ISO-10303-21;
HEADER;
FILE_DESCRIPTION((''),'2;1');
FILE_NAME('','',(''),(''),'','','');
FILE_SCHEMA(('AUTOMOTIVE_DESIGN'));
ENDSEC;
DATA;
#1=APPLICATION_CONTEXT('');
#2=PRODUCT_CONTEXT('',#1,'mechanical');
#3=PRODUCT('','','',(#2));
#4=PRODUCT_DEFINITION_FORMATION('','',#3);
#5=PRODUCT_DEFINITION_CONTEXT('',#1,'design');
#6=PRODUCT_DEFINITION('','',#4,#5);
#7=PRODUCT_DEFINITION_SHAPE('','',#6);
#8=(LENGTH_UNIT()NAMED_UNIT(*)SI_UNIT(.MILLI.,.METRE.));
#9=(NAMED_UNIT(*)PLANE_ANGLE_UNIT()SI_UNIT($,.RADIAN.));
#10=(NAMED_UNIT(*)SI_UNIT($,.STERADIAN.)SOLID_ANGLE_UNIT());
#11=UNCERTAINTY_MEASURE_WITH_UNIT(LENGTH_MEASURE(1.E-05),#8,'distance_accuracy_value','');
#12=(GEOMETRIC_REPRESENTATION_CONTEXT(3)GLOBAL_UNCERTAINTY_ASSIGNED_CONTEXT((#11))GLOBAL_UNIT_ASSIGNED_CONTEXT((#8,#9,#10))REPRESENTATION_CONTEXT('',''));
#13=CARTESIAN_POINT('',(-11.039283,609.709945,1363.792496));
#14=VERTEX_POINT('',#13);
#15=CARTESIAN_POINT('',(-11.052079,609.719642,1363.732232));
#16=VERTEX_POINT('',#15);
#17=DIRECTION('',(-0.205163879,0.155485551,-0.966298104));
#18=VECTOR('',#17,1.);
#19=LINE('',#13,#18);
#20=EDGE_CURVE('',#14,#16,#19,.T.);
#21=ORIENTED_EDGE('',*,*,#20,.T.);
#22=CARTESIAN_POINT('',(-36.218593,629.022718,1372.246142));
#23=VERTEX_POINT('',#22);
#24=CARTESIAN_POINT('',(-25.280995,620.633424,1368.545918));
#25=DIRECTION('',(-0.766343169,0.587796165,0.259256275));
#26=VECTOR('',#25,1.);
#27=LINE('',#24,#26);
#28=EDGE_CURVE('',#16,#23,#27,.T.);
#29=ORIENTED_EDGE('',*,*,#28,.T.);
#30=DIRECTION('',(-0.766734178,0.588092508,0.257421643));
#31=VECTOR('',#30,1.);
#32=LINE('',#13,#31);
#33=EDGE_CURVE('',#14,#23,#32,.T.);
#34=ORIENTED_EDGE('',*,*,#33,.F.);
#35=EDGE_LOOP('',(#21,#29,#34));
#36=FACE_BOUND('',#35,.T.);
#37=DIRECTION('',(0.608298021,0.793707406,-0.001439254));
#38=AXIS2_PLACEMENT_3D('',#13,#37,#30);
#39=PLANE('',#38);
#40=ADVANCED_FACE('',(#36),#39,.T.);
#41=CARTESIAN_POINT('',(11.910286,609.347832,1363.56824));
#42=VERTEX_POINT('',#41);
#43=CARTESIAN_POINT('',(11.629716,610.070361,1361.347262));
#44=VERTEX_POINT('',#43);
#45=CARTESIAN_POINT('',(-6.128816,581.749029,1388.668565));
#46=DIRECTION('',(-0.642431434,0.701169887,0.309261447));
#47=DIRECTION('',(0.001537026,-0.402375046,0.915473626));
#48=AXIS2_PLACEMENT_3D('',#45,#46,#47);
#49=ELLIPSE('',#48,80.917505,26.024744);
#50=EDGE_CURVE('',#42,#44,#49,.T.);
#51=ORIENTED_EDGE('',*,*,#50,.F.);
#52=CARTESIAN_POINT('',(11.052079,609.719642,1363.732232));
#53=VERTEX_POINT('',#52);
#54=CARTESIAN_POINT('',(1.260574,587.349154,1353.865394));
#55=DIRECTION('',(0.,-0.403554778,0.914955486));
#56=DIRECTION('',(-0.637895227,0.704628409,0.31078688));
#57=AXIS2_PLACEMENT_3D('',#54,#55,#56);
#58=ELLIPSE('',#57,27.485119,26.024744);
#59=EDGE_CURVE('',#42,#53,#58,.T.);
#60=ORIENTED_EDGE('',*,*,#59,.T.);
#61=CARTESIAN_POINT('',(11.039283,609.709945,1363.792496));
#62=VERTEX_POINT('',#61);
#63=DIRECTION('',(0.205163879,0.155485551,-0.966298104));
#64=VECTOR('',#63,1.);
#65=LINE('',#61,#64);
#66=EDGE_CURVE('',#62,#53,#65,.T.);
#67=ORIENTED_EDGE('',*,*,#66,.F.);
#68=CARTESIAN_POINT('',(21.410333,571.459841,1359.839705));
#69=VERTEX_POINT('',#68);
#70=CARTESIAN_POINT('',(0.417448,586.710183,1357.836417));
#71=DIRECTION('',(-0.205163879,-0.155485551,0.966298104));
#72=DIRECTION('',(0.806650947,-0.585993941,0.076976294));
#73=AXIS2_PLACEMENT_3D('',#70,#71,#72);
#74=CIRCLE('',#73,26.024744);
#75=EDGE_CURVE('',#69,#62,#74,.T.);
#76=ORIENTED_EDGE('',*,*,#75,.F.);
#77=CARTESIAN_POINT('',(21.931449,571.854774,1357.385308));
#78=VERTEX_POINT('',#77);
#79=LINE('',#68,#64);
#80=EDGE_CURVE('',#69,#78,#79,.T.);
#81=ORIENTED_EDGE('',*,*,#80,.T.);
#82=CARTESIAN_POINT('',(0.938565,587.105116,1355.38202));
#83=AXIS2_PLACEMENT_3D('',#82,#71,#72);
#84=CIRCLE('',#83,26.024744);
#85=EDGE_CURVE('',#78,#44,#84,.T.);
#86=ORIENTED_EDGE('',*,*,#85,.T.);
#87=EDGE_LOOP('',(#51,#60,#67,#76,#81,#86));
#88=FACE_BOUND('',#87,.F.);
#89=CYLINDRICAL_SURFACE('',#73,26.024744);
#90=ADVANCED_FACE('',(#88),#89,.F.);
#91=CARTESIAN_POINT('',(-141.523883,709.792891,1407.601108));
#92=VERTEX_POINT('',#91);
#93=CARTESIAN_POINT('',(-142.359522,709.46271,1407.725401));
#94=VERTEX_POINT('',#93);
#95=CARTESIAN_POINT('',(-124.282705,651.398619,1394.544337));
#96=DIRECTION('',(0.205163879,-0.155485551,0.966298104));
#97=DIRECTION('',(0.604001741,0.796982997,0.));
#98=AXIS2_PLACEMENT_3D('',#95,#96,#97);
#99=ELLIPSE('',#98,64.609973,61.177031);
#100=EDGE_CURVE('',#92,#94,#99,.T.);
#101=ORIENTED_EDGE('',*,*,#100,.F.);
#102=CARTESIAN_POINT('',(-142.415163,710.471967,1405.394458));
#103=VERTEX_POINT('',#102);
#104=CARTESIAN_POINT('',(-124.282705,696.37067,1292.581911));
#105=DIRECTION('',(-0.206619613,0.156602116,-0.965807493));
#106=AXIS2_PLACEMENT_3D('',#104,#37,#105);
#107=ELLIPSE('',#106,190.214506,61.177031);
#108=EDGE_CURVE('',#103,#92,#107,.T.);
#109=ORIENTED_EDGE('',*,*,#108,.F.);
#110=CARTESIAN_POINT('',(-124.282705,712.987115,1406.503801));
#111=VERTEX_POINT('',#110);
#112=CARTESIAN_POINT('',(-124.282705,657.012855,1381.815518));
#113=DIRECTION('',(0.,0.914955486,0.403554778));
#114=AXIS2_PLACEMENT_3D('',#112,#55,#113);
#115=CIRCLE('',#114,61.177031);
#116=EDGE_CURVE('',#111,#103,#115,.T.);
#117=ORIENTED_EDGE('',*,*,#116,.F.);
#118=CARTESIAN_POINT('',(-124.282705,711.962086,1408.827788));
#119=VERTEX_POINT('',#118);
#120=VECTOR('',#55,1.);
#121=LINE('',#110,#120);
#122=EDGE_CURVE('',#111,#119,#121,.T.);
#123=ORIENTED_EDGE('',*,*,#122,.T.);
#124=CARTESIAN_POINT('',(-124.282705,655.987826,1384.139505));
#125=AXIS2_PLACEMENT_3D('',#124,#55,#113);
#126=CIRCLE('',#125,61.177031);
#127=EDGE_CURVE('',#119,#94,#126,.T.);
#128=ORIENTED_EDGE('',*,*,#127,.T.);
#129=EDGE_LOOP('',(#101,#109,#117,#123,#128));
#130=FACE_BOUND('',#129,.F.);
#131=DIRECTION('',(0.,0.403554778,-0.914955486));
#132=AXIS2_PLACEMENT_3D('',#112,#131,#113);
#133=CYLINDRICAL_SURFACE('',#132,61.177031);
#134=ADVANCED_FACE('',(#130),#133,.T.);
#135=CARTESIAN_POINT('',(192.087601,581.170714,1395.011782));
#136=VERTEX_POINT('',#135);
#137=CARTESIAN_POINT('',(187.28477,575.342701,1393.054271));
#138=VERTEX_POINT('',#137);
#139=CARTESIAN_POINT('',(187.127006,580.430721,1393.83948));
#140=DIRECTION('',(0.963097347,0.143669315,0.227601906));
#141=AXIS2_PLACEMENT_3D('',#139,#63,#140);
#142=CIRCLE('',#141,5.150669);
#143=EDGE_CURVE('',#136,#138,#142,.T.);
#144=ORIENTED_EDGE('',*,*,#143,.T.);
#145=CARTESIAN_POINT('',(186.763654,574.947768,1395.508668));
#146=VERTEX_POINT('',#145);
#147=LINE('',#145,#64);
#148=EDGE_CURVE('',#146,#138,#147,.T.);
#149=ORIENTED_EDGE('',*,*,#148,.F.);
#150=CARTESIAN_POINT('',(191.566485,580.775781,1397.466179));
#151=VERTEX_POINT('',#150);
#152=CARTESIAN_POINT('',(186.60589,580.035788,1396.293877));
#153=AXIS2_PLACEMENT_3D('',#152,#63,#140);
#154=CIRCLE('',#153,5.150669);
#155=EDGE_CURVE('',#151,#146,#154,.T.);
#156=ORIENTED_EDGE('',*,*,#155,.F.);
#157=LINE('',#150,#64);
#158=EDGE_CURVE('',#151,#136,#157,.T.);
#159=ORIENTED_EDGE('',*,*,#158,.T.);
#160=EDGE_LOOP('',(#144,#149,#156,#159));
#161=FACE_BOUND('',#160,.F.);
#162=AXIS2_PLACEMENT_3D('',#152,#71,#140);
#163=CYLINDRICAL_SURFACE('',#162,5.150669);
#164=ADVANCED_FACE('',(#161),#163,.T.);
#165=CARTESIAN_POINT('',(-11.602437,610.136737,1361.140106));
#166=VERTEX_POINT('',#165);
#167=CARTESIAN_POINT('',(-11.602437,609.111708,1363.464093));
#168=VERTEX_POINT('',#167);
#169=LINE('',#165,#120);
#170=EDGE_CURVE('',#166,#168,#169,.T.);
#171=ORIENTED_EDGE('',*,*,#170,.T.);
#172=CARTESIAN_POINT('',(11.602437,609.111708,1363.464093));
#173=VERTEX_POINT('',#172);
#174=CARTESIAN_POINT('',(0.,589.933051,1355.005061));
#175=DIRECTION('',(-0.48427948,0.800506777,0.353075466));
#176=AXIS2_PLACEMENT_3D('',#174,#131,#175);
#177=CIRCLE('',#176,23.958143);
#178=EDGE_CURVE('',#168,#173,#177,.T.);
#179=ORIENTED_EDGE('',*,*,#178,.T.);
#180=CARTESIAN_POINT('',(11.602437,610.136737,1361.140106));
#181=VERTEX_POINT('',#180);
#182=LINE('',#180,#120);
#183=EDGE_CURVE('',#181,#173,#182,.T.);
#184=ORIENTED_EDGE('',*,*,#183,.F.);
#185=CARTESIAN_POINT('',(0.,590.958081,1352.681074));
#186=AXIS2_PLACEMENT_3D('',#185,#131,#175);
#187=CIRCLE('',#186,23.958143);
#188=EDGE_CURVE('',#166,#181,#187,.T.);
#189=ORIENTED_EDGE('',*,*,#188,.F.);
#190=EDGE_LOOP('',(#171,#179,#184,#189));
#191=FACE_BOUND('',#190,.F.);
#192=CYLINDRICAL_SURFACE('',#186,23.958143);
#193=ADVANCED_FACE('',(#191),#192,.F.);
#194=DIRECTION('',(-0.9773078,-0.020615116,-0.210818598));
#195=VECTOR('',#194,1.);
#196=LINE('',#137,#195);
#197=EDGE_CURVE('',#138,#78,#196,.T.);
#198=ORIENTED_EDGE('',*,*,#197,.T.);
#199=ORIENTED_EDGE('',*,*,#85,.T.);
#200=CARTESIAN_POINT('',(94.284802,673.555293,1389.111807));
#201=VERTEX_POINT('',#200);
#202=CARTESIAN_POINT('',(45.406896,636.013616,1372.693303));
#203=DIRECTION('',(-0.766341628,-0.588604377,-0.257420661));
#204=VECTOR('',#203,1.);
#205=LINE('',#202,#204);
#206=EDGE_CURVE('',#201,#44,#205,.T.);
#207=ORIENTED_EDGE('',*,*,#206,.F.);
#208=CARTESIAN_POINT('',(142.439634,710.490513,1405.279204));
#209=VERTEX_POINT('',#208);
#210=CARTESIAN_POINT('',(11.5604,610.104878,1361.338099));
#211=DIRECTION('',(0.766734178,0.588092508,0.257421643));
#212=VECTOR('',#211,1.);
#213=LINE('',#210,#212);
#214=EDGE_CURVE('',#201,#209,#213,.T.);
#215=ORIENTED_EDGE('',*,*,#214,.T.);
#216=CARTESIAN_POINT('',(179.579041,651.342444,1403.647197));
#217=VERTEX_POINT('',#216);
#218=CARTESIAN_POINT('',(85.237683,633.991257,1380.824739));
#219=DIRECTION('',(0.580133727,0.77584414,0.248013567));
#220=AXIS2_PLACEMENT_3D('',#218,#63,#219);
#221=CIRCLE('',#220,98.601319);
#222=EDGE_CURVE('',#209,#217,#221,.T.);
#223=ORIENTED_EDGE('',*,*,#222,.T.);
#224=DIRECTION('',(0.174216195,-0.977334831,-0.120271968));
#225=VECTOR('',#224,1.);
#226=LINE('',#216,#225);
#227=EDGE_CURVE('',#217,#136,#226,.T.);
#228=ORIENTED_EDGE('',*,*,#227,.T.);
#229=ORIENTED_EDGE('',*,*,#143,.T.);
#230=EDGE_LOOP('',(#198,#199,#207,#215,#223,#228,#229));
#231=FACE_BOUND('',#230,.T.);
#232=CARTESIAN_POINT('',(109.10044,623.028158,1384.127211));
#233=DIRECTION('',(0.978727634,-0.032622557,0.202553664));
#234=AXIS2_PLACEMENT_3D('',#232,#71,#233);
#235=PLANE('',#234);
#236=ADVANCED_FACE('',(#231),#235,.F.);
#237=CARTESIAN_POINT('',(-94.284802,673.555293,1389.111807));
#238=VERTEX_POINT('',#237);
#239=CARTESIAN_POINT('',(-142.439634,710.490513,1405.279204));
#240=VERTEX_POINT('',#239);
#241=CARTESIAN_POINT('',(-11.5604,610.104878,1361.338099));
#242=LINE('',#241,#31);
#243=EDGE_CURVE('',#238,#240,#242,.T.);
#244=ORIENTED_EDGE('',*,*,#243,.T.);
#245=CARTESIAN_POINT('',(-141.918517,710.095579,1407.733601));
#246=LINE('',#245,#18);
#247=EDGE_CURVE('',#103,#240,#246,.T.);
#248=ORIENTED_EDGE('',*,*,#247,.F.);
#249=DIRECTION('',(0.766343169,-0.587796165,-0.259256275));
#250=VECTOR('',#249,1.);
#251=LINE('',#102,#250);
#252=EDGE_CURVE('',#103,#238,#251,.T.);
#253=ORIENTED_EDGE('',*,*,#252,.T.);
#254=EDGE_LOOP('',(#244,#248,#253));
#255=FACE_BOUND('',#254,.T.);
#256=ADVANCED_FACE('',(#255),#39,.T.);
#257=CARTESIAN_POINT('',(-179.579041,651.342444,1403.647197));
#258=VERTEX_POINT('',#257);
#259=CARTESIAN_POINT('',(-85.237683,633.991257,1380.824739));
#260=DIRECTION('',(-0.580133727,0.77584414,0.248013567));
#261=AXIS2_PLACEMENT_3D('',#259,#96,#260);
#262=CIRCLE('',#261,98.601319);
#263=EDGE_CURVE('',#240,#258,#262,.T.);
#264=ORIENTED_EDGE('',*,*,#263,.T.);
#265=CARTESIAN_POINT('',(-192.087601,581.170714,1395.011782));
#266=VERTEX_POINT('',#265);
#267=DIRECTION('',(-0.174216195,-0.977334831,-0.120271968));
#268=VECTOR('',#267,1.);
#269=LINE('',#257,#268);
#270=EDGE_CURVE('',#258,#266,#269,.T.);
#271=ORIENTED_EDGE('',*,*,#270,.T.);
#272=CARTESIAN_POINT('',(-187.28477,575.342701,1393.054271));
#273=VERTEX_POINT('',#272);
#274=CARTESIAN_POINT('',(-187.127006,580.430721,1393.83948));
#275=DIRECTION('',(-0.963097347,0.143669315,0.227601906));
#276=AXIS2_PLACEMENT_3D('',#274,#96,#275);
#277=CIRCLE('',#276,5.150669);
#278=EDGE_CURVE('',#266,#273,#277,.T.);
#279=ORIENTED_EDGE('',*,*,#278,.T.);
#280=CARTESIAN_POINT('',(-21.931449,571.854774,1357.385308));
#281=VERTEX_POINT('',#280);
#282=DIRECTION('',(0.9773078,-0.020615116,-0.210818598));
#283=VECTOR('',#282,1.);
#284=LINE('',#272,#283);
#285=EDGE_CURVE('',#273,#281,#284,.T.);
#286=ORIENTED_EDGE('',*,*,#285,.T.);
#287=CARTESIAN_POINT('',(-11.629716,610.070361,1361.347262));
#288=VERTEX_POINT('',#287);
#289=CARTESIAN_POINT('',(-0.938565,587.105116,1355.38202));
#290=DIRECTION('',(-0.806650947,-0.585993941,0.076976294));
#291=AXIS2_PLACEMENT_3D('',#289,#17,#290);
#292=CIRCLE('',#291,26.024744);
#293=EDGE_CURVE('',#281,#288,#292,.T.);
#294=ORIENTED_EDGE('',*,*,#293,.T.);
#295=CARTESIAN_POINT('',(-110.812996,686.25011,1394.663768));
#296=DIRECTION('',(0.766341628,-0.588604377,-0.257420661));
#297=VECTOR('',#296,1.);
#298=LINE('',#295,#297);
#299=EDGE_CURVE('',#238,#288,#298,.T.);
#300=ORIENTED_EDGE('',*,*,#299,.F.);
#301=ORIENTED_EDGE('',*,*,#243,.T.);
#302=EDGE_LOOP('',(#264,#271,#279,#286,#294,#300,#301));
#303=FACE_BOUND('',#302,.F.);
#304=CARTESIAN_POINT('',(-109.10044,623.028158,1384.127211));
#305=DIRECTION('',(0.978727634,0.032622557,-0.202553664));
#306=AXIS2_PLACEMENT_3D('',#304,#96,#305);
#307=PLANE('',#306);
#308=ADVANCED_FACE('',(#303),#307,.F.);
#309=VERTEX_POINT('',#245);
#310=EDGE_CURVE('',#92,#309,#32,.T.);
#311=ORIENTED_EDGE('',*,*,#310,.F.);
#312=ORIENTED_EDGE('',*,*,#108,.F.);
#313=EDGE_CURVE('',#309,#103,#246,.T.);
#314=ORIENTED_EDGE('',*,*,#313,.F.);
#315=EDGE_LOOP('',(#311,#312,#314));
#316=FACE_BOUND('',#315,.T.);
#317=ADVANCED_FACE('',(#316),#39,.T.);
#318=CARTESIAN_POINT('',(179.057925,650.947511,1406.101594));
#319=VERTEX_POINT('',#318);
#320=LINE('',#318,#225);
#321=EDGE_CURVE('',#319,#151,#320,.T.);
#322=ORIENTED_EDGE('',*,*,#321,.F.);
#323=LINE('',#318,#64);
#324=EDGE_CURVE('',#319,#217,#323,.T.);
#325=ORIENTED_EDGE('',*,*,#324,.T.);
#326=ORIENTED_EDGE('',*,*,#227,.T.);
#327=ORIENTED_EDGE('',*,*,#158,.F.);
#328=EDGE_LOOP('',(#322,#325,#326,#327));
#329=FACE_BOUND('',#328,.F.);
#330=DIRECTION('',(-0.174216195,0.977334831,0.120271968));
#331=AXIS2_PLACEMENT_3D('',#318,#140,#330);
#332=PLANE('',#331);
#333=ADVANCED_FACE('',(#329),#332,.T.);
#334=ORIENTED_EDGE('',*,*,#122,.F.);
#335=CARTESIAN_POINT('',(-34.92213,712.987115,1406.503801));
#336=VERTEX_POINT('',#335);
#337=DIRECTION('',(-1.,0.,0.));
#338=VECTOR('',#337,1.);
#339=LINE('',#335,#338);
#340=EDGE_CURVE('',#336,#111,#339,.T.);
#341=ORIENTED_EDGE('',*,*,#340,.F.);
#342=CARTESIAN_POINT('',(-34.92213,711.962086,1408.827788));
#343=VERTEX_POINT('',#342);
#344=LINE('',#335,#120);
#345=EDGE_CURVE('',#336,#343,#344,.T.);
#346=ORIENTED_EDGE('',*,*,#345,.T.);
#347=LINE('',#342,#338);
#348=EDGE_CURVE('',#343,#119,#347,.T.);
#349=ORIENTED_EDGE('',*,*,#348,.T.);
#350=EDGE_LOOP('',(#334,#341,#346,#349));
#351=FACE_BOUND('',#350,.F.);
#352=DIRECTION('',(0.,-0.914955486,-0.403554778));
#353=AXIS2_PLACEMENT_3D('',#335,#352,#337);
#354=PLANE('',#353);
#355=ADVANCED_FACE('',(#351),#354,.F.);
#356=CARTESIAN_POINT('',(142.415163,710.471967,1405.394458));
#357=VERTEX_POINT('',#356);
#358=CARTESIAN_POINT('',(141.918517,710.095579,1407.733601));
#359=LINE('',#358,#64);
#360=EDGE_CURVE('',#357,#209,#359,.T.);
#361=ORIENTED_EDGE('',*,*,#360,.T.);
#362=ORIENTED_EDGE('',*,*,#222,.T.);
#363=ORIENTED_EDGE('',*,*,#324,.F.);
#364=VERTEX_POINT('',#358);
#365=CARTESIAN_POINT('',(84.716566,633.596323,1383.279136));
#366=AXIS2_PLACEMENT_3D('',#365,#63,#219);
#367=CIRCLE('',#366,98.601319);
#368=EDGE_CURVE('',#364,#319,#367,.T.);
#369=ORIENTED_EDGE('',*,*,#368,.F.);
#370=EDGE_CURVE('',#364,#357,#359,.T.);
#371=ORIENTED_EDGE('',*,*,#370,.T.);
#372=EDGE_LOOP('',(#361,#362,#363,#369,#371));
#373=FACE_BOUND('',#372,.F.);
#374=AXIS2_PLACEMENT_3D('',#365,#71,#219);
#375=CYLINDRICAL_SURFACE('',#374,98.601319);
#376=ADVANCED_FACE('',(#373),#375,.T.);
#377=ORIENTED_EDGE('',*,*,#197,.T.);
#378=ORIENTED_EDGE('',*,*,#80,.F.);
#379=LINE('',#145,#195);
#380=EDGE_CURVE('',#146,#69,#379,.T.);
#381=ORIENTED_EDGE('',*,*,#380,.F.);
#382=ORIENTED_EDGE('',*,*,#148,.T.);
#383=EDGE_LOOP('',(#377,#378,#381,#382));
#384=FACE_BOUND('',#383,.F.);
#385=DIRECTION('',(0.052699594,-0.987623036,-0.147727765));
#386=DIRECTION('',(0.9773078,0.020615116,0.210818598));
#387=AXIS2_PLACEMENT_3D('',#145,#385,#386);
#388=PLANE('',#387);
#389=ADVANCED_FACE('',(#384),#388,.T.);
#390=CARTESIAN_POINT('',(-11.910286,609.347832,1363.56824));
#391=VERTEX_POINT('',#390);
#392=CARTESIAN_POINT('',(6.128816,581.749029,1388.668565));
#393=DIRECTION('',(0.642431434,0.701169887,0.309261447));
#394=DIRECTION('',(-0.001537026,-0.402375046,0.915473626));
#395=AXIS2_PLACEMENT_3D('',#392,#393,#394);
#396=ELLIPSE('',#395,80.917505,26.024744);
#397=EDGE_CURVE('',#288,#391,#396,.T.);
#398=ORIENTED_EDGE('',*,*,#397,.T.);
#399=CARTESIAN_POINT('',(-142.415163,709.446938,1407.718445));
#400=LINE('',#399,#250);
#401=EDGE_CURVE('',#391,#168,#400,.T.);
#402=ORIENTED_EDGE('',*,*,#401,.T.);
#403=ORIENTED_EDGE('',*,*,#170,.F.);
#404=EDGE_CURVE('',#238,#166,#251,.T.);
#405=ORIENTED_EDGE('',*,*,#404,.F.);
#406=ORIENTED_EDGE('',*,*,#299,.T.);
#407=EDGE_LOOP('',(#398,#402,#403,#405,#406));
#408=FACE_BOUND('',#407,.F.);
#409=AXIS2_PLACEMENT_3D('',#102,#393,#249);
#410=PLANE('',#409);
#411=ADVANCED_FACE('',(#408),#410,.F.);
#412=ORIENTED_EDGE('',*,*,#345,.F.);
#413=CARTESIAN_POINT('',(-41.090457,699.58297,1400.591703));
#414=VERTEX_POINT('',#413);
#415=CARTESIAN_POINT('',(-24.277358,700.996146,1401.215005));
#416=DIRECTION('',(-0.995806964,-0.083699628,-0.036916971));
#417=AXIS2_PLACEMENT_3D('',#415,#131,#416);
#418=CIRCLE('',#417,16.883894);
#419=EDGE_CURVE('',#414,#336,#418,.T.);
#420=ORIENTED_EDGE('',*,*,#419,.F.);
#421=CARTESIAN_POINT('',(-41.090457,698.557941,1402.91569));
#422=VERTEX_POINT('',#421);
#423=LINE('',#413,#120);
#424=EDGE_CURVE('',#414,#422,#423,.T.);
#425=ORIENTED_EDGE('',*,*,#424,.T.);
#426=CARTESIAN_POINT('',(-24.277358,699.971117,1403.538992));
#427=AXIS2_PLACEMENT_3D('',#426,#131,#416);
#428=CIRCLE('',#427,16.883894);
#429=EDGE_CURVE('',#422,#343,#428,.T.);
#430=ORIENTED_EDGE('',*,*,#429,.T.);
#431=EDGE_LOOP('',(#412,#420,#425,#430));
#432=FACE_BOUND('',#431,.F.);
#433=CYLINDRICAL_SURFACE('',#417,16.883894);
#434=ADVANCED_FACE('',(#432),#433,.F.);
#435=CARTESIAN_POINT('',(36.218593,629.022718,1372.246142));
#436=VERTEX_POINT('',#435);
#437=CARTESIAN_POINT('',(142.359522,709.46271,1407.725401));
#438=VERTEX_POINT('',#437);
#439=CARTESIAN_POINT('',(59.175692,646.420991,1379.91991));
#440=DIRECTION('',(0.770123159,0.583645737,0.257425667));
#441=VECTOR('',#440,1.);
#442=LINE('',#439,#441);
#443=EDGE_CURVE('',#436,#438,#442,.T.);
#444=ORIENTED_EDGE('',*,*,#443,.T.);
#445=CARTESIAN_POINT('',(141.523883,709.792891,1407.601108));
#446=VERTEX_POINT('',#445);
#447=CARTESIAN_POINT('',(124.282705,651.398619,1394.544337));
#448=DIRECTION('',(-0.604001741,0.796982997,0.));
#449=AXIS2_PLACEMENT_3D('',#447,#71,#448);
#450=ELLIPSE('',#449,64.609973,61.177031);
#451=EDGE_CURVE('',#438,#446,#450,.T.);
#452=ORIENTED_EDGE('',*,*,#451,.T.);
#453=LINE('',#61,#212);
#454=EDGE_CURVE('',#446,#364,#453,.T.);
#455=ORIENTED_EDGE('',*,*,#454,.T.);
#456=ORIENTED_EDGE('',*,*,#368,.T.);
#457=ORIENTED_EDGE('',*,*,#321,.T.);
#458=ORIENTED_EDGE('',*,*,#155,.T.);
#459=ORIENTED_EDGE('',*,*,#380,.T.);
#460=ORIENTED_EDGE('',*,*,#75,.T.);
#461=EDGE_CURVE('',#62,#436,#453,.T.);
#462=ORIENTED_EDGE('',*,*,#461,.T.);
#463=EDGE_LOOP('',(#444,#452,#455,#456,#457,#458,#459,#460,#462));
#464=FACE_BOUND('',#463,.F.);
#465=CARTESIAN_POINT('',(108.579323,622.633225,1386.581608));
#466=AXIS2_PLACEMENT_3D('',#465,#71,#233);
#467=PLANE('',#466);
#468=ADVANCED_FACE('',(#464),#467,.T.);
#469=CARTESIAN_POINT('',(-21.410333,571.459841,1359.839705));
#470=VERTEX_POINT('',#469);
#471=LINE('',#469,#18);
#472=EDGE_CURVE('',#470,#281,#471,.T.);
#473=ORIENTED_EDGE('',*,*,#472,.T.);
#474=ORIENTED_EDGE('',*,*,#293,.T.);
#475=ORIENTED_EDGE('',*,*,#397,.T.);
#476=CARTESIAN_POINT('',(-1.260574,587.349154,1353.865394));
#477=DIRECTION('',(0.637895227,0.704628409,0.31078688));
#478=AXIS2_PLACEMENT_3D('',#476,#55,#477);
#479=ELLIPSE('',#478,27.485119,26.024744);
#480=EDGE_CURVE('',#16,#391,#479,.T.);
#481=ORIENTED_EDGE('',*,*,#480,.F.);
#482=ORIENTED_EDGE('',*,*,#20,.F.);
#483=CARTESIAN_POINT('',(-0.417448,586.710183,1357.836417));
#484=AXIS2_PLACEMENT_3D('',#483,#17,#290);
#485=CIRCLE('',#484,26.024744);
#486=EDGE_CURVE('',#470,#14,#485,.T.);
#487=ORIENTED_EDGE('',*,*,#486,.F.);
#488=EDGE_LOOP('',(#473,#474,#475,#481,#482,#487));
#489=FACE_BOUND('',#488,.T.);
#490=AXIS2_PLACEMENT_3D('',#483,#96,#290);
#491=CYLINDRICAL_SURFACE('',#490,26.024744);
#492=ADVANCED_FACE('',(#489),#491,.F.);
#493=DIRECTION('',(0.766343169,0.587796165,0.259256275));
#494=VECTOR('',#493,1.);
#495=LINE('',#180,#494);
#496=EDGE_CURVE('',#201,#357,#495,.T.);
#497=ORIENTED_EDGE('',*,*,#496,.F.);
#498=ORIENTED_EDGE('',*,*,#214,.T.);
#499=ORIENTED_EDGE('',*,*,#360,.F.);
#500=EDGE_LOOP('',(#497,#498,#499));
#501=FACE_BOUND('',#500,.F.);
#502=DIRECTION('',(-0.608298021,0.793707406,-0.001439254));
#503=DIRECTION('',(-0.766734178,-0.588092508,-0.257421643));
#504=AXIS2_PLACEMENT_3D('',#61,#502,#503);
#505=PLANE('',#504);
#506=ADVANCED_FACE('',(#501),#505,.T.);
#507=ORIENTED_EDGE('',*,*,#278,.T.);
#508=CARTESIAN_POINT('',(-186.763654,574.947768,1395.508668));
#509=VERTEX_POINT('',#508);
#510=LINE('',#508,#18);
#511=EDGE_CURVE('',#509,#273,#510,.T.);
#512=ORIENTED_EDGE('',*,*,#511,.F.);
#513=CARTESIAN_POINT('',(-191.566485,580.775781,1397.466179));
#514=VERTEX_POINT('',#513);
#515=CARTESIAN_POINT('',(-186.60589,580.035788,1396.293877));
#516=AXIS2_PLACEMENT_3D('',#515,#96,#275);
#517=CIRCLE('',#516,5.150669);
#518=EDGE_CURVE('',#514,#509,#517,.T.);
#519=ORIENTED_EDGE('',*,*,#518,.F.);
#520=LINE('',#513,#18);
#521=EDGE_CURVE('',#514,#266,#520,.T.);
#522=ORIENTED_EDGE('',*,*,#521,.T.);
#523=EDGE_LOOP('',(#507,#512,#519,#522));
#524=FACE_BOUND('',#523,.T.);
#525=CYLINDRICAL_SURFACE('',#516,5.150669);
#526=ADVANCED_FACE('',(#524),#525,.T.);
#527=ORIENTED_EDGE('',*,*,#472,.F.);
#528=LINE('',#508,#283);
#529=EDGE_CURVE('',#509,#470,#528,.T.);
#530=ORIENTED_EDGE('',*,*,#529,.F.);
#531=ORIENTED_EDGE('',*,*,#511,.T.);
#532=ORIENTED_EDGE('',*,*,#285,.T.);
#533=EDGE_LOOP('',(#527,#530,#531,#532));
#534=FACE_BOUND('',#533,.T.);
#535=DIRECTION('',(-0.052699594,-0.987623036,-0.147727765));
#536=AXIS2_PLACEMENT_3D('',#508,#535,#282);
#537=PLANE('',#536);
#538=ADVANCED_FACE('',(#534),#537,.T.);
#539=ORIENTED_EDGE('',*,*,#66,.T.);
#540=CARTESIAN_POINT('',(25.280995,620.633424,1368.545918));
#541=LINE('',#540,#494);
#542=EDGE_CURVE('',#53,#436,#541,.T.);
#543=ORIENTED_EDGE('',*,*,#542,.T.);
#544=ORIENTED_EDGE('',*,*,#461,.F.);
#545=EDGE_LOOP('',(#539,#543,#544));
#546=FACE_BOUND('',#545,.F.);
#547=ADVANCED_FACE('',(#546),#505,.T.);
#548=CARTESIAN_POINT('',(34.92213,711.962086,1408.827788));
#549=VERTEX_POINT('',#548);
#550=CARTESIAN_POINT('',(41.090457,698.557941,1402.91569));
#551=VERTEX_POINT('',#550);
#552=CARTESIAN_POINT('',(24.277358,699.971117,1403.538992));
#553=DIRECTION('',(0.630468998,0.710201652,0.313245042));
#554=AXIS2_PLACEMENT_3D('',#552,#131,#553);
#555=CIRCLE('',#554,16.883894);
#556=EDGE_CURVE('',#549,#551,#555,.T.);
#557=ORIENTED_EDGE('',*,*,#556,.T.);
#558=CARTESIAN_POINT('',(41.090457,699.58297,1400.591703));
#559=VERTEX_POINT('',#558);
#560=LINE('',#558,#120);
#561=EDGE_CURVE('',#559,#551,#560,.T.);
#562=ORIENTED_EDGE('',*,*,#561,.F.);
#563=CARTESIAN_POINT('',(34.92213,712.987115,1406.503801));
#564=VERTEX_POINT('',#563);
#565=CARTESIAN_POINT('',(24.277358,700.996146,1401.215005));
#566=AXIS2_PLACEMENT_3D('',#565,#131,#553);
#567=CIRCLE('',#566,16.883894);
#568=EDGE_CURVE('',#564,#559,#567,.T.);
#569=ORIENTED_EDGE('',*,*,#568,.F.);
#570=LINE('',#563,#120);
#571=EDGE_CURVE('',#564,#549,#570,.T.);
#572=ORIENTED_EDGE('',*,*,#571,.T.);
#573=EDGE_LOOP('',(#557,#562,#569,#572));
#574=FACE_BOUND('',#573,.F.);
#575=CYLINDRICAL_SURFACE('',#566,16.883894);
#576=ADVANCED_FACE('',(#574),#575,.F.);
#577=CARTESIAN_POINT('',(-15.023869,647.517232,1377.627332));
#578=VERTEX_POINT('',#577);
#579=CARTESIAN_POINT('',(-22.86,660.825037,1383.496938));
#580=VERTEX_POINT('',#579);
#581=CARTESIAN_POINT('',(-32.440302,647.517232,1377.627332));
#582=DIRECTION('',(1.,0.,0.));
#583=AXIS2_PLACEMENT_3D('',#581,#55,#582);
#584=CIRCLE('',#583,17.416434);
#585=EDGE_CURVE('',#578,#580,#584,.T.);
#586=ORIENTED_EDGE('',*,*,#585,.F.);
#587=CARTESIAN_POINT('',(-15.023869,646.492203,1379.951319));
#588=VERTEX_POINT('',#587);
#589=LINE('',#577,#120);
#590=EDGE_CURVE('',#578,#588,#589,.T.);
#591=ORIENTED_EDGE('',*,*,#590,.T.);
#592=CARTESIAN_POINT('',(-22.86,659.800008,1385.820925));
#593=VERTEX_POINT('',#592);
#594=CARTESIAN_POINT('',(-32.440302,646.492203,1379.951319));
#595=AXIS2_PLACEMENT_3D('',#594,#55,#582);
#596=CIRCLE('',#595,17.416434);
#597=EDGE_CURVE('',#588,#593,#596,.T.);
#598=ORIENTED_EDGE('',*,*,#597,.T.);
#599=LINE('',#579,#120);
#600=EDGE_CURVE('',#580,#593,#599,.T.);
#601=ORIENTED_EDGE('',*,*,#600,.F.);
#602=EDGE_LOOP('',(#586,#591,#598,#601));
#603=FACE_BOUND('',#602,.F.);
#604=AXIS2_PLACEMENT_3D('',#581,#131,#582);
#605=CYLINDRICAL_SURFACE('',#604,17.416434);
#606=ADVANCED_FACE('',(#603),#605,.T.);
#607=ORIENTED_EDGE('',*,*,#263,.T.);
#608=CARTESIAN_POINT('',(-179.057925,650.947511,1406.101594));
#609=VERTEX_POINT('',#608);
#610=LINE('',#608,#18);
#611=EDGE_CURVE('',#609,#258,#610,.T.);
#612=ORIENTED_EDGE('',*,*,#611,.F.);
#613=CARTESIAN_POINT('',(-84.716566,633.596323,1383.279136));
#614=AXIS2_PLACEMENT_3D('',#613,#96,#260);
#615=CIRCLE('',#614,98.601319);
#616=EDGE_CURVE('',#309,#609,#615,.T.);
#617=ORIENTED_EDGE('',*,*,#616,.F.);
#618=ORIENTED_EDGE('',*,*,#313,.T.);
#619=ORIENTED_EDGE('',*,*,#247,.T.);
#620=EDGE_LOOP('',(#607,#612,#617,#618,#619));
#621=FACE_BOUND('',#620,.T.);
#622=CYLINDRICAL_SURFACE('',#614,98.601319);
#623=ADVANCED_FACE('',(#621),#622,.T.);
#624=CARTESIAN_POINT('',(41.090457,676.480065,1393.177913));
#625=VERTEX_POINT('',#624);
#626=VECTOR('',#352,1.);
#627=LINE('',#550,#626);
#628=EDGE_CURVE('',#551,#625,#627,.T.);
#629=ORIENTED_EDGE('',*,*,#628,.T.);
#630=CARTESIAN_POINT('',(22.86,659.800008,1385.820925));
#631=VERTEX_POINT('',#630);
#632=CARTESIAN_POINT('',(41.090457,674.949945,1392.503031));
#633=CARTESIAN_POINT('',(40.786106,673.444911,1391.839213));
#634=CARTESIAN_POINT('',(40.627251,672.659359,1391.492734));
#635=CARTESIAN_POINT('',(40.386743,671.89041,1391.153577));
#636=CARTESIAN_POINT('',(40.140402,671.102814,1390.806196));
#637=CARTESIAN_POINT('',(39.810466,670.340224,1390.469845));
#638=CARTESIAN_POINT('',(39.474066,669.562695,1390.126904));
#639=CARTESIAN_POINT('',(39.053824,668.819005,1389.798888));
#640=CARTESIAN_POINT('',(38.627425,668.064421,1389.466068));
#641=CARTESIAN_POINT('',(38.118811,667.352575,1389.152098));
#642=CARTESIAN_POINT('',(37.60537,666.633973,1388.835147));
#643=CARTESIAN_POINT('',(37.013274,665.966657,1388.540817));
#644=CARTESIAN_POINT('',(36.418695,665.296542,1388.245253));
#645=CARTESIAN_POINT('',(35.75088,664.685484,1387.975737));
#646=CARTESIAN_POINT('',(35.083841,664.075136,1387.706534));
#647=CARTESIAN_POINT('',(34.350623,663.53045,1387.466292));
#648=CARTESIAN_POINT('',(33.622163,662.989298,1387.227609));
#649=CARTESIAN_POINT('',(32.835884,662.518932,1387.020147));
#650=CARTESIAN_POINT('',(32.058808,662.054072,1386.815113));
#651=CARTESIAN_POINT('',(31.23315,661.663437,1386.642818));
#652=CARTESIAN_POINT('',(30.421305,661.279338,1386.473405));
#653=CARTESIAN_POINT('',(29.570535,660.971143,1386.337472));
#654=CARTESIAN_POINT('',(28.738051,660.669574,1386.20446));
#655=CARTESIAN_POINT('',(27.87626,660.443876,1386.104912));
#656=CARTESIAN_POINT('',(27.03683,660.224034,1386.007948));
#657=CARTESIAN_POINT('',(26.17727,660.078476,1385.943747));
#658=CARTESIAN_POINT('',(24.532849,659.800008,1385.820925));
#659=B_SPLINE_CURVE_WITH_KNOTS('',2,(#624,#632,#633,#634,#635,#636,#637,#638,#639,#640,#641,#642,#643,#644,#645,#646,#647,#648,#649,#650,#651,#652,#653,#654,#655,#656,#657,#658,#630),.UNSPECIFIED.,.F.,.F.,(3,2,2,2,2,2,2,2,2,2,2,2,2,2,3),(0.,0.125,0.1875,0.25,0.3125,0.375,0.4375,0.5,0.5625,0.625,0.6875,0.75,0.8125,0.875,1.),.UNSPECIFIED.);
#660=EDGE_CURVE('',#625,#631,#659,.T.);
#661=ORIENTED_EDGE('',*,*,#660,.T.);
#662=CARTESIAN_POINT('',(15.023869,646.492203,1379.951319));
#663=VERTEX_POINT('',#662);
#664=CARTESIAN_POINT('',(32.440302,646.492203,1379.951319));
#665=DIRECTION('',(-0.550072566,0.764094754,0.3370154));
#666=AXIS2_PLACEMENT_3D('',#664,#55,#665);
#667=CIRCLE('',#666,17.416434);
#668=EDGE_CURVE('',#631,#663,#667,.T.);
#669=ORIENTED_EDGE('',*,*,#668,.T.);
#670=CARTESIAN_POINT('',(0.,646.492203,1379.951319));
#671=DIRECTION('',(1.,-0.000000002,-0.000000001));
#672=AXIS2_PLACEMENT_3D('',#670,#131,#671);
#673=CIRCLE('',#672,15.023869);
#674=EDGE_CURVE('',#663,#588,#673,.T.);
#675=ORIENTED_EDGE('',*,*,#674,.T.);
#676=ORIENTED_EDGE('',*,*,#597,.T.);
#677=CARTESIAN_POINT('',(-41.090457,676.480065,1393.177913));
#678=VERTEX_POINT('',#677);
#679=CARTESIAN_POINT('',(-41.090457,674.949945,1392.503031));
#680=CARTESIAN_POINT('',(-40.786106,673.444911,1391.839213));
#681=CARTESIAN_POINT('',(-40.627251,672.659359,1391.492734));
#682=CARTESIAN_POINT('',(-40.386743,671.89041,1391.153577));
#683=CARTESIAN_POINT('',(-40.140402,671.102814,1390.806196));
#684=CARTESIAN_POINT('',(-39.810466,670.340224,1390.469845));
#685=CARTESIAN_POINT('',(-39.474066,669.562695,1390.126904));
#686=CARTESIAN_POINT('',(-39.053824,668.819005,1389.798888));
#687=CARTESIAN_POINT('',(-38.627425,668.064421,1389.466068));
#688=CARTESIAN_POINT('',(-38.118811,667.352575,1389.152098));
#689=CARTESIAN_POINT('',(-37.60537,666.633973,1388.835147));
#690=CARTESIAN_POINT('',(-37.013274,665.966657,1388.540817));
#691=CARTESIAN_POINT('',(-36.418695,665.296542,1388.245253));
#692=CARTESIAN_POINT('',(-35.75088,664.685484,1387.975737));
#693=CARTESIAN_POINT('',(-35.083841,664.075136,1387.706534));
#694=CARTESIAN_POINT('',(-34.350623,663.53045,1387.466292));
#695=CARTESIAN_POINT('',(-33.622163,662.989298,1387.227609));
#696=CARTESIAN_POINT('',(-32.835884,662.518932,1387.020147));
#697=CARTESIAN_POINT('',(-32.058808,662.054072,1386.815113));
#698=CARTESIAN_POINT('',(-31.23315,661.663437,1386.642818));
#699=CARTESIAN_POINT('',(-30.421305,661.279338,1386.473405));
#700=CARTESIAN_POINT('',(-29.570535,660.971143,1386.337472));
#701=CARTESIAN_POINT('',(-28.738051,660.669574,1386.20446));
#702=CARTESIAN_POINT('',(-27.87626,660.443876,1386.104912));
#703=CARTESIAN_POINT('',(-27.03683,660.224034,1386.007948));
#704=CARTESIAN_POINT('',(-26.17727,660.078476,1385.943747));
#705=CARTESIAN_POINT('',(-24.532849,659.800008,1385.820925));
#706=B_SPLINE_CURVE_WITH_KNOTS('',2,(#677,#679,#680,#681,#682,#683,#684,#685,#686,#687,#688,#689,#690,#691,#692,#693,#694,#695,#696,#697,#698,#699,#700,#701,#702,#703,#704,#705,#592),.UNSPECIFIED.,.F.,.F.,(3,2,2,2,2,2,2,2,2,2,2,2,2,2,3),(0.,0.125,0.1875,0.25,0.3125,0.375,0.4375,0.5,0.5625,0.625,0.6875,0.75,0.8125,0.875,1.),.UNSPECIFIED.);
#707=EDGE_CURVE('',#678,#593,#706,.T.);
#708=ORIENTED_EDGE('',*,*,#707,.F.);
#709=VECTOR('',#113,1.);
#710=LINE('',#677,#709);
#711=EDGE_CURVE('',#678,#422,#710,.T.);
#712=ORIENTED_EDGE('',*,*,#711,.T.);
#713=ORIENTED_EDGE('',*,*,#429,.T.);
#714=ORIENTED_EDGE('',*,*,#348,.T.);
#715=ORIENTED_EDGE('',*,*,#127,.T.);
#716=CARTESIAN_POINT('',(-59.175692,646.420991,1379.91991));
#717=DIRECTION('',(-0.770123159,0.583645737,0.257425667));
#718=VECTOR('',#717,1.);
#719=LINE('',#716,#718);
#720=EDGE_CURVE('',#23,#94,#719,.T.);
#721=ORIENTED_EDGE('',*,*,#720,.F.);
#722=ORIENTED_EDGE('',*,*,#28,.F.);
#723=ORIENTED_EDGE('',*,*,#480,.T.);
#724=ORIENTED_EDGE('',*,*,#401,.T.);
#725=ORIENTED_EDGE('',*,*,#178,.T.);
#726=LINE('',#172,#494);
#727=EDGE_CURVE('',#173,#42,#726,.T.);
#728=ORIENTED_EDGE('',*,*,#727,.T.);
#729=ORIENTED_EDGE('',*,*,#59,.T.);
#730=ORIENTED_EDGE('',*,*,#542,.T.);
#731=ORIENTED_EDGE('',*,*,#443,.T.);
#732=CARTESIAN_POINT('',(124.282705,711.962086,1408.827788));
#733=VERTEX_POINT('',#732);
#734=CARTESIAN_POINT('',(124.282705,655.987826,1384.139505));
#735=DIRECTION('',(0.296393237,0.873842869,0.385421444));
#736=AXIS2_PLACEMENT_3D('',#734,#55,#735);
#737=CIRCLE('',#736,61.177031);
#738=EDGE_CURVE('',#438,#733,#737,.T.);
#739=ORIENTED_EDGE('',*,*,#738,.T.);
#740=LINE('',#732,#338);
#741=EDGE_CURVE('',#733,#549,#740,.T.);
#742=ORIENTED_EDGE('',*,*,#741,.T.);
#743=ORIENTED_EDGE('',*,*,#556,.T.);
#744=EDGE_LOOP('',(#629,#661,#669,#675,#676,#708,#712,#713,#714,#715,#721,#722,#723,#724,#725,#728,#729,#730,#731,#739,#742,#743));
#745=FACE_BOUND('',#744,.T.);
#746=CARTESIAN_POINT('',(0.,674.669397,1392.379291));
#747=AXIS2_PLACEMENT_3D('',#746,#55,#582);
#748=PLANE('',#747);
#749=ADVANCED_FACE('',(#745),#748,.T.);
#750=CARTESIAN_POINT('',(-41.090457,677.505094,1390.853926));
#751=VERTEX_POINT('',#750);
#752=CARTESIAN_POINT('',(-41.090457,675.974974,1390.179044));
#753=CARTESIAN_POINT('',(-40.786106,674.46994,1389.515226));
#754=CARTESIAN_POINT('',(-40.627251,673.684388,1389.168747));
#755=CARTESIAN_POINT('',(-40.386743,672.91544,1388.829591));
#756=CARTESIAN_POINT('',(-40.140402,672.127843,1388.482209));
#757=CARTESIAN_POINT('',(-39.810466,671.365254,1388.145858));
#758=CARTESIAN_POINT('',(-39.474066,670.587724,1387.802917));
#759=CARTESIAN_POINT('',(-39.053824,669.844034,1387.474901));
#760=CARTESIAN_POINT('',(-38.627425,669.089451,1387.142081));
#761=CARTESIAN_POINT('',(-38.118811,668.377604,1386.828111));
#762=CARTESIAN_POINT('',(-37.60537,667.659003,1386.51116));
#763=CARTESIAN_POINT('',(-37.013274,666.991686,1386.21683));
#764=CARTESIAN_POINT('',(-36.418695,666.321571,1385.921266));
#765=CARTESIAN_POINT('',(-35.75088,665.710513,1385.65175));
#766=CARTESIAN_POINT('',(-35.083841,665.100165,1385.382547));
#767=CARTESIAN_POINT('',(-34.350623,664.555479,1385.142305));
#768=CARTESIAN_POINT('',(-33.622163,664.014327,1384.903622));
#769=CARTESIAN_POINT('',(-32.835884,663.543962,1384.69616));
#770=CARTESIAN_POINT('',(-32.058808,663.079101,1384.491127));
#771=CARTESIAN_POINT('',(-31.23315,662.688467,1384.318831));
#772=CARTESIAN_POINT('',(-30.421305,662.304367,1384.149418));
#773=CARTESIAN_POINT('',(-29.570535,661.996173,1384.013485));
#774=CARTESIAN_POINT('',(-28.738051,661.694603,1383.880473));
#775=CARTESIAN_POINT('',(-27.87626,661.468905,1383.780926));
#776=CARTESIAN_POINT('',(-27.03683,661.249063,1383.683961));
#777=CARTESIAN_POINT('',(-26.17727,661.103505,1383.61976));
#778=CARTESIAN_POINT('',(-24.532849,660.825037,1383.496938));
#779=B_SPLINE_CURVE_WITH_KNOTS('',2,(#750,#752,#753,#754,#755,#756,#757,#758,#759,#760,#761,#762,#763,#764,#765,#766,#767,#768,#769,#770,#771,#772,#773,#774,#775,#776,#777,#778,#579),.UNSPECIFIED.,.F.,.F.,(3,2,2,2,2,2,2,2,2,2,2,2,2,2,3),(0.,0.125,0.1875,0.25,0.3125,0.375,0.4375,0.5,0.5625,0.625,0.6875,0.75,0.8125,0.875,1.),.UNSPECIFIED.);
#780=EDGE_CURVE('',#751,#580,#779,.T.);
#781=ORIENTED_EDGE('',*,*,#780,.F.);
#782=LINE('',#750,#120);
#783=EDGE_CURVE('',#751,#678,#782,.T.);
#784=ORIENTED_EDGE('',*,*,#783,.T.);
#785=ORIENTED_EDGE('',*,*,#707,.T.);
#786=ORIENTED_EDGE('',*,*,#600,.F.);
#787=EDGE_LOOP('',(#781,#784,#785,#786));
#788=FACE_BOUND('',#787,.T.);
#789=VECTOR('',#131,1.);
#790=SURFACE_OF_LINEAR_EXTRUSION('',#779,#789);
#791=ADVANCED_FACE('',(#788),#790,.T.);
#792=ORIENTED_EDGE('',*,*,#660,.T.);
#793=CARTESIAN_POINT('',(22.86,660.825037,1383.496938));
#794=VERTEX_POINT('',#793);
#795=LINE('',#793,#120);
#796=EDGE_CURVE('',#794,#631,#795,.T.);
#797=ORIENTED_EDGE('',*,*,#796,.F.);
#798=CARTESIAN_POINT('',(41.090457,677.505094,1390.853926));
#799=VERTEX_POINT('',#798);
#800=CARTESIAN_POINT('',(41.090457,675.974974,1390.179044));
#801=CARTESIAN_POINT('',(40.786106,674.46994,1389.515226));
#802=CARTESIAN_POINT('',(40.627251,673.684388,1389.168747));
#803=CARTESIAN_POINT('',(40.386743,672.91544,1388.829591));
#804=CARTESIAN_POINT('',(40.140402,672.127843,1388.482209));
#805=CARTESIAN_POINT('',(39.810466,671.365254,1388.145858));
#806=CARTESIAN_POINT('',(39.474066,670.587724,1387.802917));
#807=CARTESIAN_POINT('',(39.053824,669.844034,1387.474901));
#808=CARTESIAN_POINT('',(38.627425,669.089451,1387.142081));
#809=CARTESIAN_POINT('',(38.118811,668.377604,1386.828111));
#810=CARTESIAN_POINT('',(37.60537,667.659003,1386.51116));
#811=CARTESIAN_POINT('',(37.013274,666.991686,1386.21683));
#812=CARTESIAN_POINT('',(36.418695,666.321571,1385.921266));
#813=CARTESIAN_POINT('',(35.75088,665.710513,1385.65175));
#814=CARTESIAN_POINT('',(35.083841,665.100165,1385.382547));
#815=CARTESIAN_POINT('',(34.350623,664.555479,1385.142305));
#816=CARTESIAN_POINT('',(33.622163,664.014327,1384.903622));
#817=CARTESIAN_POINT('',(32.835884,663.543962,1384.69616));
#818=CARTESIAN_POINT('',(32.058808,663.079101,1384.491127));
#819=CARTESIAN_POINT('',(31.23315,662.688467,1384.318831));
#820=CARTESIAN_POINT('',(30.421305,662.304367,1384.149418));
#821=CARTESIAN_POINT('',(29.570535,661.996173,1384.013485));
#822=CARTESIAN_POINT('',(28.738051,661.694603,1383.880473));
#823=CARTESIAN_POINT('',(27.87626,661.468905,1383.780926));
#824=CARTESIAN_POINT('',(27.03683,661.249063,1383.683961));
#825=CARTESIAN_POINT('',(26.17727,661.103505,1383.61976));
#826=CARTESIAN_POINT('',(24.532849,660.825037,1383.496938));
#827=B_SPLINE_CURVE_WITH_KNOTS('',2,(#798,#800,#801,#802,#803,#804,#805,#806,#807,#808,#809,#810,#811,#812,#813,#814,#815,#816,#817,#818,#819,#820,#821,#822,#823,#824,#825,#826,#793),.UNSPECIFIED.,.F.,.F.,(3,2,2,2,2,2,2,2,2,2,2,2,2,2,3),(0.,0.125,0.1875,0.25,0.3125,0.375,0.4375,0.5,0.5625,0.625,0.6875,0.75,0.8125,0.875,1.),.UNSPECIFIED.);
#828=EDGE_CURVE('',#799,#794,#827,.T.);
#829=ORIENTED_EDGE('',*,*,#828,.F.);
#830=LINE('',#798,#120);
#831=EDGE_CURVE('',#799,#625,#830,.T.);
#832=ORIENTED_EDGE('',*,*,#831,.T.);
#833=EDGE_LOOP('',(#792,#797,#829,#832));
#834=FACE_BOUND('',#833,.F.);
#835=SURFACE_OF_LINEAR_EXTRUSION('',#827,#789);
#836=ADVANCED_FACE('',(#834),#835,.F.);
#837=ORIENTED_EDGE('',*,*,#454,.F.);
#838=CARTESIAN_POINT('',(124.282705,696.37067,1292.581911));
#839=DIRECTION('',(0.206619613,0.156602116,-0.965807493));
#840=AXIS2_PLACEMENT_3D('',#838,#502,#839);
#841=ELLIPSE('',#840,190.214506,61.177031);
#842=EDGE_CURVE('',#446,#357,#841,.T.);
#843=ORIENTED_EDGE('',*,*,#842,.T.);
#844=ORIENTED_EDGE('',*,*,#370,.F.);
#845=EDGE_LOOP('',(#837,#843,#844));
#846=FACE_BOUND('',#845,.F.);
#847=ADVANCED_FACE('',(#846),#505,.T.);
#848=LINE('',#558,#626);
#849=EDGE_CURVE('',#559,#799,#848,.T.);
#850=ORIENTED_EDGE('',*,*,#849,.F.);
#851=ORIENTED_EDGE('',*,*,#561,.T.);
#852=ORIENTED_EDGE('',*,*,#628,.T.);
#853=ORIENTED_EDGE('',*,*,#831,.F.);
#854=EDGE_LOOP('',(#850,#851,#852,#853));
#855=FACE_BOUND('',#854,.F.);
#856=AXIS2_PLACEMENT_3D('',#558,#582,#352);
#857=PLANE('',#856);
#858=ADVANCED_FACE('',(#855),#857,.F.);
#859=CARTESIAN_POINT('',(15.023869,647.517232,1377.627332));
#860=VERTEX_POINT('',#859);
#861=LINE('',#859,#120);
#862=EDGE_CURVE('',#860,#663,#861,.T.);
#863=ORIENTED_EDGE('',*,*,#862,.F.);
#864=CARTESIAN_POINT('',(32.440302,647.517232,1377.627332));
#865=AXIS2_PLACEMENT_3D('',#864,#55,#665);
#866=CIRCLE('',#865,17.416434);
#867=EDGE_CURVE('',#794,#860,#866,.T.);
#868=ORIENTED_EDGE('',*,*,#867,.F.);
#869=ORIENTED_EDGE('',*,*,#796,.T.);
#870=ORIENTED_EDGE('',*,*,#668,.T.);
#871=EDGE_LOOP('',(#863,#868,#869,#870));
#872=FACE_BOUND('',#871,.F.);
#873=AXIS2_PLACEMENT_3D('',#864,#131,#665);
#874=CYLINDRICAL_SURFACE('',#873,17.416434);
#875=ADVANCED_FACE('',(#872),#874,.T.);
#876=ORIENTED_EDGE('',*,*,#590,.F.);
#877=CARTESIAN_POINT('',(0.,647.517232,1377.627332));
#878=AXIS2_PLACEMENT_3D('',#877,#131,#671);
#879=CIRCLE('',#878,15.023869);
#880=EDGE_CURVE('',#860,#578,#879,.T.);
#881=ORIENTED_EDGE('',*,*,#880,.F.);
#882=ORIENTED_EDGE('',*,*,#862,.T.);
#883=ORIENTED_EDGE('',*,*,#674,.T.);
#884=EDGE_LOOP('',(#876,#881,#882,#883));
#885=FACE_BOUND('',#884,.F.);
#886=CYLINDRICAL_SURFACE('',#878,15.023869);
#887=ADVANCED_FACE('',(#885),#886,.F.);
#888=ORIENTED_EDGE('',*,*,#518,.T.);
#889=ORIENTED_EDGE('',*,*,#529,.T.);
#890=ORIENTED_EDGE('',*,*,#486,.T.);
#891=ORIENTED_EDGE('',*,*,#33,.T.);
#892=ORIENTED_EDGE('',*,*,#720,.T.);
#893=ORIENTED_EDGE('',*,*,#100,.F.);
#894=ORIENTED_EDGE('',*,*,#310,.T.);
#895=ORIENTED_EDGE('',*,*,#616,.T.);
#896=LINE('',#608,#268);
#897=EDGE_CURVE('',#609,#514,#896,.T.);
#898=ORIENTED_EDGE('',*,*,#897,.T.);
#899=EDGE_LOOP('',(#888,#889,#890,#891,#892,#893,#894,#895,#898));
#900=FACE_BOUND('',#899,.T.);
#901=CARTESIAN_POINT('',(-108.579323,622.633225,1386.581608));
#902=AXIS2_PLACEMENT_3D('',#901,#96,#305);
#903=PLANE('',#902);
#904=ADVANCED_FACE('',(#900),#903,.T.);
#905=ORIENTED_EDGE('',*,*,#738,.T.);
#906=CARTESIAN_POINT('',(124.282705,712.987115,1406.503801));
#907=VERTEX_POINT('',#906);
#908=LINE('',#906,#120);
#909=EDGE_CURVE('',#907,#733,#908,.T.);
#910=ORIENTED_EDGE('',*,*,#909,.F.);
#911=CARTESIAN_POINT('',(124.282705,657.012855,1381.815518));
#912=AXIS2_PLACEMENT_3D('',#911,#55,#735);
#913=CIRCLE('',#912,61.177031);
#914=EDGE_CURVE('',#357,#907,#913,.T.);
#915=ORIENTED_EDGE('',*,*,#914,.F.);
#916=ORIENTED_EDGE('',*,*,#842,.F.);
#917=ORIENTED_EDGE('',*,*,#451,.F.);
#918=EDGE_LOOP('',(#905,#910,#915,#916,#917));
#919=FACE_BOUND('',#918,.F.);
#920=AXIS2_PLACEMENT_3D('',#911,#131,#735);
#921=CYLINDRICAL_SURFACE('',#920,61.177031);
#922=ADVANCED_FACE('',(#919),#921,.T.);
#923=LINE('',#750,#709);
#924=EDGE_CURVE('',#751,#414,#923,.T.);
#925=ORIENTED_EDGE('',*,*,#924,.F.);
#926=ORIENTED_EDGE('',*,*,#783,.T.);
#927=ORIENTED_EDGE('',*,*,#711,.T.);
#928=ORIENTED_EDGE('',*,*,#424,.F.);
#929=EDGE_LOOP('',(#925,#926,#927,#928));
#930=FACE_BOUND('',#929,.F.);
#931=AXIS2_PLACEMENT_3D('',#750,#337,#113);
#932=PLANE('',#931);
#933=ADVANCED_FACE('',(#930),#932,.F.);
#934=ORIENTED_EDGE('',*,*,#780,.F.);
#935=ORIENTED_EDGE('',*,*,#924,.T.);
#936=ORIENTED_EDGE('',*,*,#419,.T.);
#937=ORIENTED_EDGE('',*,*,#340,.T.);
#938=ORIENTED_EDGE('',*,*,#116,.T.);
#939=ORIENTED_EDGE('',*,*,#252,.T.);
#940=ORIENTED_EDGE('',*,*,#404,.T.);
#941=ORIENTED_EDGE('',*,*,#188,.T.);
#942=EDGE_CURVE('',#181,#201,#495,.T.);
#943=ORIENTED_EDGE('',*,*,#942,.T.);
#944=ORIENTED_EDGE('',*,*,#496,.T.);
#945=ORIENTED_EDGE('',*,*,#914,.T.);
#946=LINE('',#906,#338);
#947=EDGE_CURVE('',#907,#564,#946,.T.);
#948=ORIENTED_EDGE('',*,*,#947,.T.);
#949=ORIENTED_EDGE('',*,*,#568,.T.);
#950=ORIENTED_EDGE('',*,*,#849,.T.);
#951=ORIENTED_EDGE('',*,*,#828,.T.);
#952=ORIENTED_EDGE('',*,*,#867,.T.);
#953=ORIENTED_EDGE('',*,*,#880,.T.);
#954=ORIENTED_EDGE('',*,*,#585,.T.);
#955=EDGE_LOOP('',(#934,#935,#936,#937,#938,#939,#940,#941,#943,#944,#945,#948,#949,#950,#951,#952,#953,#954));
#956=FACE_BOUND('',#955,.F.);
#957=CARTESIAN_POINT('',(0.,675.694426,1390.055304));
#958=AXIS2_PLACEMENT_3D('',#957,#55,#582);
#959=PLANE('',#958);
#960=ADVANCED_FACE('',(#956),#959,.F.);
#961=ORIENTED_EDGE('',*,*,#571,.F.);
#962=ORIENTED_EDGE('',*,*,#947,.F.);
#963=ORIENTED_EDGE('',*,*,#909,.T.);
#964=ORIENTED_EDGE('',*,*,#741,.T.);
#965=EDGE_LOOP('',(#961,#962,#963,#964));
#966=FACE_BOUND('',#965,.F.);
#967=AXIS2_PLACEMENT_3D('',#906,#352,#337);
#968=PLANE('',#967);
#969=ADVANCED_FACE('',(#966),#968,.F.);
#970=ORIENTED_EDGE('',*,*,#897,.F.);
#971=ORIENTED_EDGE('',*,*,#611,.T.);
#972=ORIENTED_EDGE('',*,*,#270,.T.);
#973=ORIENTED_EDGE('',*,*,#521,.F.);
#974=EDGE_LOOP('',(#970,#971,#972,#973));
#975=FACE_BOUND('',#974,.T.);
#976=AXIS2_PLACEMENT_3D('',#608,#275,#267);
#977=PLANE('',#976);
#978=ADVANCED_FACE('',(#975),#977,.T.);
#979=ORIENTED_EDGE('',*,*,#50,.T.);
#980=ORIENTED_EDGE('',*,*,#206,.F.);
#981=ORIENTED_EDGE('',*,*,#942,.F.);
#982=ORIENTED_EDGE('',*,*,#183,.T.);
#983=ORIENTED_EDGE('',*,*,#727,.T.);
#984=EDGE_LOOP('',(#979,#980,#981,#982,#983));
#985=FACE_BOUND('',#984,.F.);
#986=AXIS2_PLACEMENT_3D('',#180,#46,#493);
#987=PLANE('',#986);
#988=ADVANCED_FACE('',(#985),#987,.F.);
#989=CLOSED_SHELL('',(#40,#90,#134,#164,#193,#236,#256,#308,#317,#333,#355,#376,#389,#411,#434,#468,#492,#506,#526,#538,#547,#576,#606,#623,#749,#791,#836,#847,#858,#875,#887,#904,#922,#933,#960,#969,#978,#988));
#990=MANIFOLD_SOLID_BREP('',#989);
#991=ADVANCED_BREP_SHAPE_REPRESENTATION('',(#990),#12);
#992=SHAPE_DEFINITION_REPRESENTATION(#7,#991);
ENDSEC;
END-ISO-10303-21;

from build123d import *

# Parameters (mm, degrees)
BOSS_EXTRUDE1_DEPTH = 2.54
BOSS_EXTRUDE2_DEPTH = 2.54


with BuildPart() as part:
    # Sketch1 → Boss-Extrude1 (new body)
    with BuildSketch(Plane(origin=(0, -403.215393304, 914.186019304), x_dir=(1, 0, 0), z_dir=(0, -0.403554778, 0.914955486))):
        with BuildLine():
            Line((41.090457211, 1205.302750155), (41.090457211, 1181.172750155))
            add(Edge.make_bspline(
                [(41.090457211, 1181.172750155), (41.090457211, 1179.500406586), (40.786106444, 1177.855480514), (40.627250629, 1176.996911717), (40.38674257, 1176.156490093), (40.140401941, 1175.295687376), (39.810465838, 1174.462215303), (39.474066056, 1173.612414933), (39.053823577, 1172.79959973), (38.627425101, 1171.974877856), (38.118810853, 1171.196866161), (37.605369582, 1170.411470717), (37.013273567, 1169.682127132), (36.418695318, 1168.949725934), (35.750879918, 1168.281870238), (35.083841269, 1167.614791339), (34.350623023, 1167.019476589), (33.622163357, 1166.428025426), (32.835883994, 1165.913939303), (32.058807597, 1165.405870274), (31.233150426, 1164.978926578), (30.421305456, 1164.559125111), (29.570534852, 1164.222284318), (28.738051446, 1163.892683872), (27.876260062, 1163.646007586), (27.036829788, 1163.40573187), (26.177269641, 1163.246643712), (24.532849383, 1162.942292945), (22.86, 1162.942292945)],
                knots=[0, 0, 0, 0.125, 0.125, 0.1875, 0.1875, 0.25, 0.25, 0.3125, 0.3125, 0.375, 0.375, 0.4375, 0.4375, 0.5, 0.5, 0.5625, 0.5625, 0.625, 0.625, 0.6875, 0.6875, 0.75, 0.75, 0.8125, 0.8125, 0.875, 0.875, 1, 1, 1], degree=2))
            ThreePointArc((22.86, 1162.942292945), (17.107545571, 1156.658209277), (15.02386871, 1148.397535561))
            ThreePointArc((15.02386871, 1148.397535561), (0, 1133.373666883), (-15.02386871, 1148.397535561))
            ThreePointArc((-15.02386871, 1148.397535561), (-17.107545571, 1156.658209277), (-22.86, 1162.942292945))
            add(Edge.make_bspline(
                [(-41.090457211, 1181.172750155), (-41.090457211, 1179.500406586), (-40.786106444, 1177.855480514), (-40.627250629, 1176.996911717), (-40.38674257, 1176.156490093), (-40.140401941, 1175.295687376), (-39.810465838, 1174.462215303), (-39.474066056, 1173.612414933), (-39.053823577, 1172.79959973), (-38.627425101, 1171.974877856), (-38.118810853, 1171.196866161), (-37.605369582, 1170.411470717), (-37.013273567, 1169.682127132), (-36.418695318, 1168.949725934), (-35.750879918, 1168.281870238), (-35.083841269, 1167.614791339), (-34.350623023, 1167.019476589), (-33.622163357, 1166.428025426), (-32.835883994, 1165.913939303), (-32.058807597, 1165.405870274), (-31.233150426, 1164.978926578), (-30.421305456, 1164.559125111), (-29.570534852, 1164.222284318), (-28.738051446, 1163.892683872), (-27.876260062, 1163.646007586), (-27.036829788, 1163.40573187), (-26.177269641, 1163.246643712), (-24.532849383, 1162.942292945), (-22.86, 1162.942292945)],
                knots=[0, 0, 0, 0.125, 0.125, 0.1875, 0.1875, 0.25, 0.25, 0.3125, 0.3125, 0.375, 0.375, 0.4375, 0.4375, 0.5, 0.5, 0.5625, 0.5625, 0.625, 0.625, 0.6875, 0.6875, 0.75, 0.75, 0.8125, 0.8125, 0.875, 0.875, 1, 1, 1], degree=2))
            Line((-41.090457211, 1181.172750155), (-41.090457211, 1205.302750155))
            ThreePointArc((-41.090457211, 1205.302750155), (-39.838195765, 1213.399088759), (-34.922129755, 1219.952801638))
            Line((-34.922129755, 1219.952801638), (-124.282704843, 1219.952801638))
            ThreePointArc((-124.282704843, 1219.952801638), (-133.452528355, 1219.261665344), (-142.415163066, 1217.203872436))
            Line((-142.415163066, 1217.203872436), (-11.602437283, 1107.542547866))
            ThreePointArc((-11.602437283, 1107.542547866), (0, 1110.539391573), (11.602437283, 1107.542547866))
            Line((11.602437283, 1107.542547866), (142.415163066, 1217.203872436))
            ThreePointArc((142.415163066, 1217.203872436), (133.452528355, 1219.261665344), (124.282704843, 1219.952801638))
            Line((124.282704843, 1219.952801638), (34.922129755, 1219.952801638))
            ThreePointArc((34.922129755, 1219.952801638), (39.838195765, 1213.399088759), (41.090457211, 1205.302750155))
        make_face()
    boss_extrude1 = extrude(amount=BOSS_EXTRUDE1_DEPTH)


with BuildPart() as body_2:
    # Sketch2 → Boss-Extrude2 (new body)
    with BuildSketch(Plane(origin=(250.456709511, -189.811186969, 1179.622087881), x_dir=(-0.978727634, -0.032622557, 0.202553664), z_dir=(-0.205163879, 0.155485551, -0.966298104))):
        with BuildLine():
            Line((438.824397172, 866.073971669), (451.606917208, 795.421913218))
            ThreePointArc((451.606917208, 795.421913218), (450.542773626, 791.265264069), (446.699876764, 789.356788913))
            Line((446.699876764, 789.356788913), (277.752918196, 780.24161181))
            ThreePointArc((277.752918196, 780.24161181), (281.389861334, 801.904197312), (267.155321643, 818.633597954))
            Line((267.155321643, 818.633597954), (400.876040527, 924.729024753))
            ThreePointArc((400.876040527, 924.729024753), (425.219058104, 898.875003324), (438.824397172, 866.073971669))
        make_face()
    boss_extrude2 = extrude(amount=BOSS_EXTRUDE2_DEPTH)


with BuildPart() as part_1:
    add(part.part)

    add(body_2.part)  # Mirror7 merges body 2
    # Mirror7: Boss-Extrude1, Boss-Extrude2 across plane
    add(boss_extrude1.mirror(Plane(origin=(0, 0, 0), x_dir=(0, 0, 1), z_dir=(1, 0, 0))))
    add(boss_extrude2.mirror(Plane(origin=(0, 0, 0), x_dir=(0, 0, 1), z_dir=(1, 0, 0))))


solid = part_1.part
